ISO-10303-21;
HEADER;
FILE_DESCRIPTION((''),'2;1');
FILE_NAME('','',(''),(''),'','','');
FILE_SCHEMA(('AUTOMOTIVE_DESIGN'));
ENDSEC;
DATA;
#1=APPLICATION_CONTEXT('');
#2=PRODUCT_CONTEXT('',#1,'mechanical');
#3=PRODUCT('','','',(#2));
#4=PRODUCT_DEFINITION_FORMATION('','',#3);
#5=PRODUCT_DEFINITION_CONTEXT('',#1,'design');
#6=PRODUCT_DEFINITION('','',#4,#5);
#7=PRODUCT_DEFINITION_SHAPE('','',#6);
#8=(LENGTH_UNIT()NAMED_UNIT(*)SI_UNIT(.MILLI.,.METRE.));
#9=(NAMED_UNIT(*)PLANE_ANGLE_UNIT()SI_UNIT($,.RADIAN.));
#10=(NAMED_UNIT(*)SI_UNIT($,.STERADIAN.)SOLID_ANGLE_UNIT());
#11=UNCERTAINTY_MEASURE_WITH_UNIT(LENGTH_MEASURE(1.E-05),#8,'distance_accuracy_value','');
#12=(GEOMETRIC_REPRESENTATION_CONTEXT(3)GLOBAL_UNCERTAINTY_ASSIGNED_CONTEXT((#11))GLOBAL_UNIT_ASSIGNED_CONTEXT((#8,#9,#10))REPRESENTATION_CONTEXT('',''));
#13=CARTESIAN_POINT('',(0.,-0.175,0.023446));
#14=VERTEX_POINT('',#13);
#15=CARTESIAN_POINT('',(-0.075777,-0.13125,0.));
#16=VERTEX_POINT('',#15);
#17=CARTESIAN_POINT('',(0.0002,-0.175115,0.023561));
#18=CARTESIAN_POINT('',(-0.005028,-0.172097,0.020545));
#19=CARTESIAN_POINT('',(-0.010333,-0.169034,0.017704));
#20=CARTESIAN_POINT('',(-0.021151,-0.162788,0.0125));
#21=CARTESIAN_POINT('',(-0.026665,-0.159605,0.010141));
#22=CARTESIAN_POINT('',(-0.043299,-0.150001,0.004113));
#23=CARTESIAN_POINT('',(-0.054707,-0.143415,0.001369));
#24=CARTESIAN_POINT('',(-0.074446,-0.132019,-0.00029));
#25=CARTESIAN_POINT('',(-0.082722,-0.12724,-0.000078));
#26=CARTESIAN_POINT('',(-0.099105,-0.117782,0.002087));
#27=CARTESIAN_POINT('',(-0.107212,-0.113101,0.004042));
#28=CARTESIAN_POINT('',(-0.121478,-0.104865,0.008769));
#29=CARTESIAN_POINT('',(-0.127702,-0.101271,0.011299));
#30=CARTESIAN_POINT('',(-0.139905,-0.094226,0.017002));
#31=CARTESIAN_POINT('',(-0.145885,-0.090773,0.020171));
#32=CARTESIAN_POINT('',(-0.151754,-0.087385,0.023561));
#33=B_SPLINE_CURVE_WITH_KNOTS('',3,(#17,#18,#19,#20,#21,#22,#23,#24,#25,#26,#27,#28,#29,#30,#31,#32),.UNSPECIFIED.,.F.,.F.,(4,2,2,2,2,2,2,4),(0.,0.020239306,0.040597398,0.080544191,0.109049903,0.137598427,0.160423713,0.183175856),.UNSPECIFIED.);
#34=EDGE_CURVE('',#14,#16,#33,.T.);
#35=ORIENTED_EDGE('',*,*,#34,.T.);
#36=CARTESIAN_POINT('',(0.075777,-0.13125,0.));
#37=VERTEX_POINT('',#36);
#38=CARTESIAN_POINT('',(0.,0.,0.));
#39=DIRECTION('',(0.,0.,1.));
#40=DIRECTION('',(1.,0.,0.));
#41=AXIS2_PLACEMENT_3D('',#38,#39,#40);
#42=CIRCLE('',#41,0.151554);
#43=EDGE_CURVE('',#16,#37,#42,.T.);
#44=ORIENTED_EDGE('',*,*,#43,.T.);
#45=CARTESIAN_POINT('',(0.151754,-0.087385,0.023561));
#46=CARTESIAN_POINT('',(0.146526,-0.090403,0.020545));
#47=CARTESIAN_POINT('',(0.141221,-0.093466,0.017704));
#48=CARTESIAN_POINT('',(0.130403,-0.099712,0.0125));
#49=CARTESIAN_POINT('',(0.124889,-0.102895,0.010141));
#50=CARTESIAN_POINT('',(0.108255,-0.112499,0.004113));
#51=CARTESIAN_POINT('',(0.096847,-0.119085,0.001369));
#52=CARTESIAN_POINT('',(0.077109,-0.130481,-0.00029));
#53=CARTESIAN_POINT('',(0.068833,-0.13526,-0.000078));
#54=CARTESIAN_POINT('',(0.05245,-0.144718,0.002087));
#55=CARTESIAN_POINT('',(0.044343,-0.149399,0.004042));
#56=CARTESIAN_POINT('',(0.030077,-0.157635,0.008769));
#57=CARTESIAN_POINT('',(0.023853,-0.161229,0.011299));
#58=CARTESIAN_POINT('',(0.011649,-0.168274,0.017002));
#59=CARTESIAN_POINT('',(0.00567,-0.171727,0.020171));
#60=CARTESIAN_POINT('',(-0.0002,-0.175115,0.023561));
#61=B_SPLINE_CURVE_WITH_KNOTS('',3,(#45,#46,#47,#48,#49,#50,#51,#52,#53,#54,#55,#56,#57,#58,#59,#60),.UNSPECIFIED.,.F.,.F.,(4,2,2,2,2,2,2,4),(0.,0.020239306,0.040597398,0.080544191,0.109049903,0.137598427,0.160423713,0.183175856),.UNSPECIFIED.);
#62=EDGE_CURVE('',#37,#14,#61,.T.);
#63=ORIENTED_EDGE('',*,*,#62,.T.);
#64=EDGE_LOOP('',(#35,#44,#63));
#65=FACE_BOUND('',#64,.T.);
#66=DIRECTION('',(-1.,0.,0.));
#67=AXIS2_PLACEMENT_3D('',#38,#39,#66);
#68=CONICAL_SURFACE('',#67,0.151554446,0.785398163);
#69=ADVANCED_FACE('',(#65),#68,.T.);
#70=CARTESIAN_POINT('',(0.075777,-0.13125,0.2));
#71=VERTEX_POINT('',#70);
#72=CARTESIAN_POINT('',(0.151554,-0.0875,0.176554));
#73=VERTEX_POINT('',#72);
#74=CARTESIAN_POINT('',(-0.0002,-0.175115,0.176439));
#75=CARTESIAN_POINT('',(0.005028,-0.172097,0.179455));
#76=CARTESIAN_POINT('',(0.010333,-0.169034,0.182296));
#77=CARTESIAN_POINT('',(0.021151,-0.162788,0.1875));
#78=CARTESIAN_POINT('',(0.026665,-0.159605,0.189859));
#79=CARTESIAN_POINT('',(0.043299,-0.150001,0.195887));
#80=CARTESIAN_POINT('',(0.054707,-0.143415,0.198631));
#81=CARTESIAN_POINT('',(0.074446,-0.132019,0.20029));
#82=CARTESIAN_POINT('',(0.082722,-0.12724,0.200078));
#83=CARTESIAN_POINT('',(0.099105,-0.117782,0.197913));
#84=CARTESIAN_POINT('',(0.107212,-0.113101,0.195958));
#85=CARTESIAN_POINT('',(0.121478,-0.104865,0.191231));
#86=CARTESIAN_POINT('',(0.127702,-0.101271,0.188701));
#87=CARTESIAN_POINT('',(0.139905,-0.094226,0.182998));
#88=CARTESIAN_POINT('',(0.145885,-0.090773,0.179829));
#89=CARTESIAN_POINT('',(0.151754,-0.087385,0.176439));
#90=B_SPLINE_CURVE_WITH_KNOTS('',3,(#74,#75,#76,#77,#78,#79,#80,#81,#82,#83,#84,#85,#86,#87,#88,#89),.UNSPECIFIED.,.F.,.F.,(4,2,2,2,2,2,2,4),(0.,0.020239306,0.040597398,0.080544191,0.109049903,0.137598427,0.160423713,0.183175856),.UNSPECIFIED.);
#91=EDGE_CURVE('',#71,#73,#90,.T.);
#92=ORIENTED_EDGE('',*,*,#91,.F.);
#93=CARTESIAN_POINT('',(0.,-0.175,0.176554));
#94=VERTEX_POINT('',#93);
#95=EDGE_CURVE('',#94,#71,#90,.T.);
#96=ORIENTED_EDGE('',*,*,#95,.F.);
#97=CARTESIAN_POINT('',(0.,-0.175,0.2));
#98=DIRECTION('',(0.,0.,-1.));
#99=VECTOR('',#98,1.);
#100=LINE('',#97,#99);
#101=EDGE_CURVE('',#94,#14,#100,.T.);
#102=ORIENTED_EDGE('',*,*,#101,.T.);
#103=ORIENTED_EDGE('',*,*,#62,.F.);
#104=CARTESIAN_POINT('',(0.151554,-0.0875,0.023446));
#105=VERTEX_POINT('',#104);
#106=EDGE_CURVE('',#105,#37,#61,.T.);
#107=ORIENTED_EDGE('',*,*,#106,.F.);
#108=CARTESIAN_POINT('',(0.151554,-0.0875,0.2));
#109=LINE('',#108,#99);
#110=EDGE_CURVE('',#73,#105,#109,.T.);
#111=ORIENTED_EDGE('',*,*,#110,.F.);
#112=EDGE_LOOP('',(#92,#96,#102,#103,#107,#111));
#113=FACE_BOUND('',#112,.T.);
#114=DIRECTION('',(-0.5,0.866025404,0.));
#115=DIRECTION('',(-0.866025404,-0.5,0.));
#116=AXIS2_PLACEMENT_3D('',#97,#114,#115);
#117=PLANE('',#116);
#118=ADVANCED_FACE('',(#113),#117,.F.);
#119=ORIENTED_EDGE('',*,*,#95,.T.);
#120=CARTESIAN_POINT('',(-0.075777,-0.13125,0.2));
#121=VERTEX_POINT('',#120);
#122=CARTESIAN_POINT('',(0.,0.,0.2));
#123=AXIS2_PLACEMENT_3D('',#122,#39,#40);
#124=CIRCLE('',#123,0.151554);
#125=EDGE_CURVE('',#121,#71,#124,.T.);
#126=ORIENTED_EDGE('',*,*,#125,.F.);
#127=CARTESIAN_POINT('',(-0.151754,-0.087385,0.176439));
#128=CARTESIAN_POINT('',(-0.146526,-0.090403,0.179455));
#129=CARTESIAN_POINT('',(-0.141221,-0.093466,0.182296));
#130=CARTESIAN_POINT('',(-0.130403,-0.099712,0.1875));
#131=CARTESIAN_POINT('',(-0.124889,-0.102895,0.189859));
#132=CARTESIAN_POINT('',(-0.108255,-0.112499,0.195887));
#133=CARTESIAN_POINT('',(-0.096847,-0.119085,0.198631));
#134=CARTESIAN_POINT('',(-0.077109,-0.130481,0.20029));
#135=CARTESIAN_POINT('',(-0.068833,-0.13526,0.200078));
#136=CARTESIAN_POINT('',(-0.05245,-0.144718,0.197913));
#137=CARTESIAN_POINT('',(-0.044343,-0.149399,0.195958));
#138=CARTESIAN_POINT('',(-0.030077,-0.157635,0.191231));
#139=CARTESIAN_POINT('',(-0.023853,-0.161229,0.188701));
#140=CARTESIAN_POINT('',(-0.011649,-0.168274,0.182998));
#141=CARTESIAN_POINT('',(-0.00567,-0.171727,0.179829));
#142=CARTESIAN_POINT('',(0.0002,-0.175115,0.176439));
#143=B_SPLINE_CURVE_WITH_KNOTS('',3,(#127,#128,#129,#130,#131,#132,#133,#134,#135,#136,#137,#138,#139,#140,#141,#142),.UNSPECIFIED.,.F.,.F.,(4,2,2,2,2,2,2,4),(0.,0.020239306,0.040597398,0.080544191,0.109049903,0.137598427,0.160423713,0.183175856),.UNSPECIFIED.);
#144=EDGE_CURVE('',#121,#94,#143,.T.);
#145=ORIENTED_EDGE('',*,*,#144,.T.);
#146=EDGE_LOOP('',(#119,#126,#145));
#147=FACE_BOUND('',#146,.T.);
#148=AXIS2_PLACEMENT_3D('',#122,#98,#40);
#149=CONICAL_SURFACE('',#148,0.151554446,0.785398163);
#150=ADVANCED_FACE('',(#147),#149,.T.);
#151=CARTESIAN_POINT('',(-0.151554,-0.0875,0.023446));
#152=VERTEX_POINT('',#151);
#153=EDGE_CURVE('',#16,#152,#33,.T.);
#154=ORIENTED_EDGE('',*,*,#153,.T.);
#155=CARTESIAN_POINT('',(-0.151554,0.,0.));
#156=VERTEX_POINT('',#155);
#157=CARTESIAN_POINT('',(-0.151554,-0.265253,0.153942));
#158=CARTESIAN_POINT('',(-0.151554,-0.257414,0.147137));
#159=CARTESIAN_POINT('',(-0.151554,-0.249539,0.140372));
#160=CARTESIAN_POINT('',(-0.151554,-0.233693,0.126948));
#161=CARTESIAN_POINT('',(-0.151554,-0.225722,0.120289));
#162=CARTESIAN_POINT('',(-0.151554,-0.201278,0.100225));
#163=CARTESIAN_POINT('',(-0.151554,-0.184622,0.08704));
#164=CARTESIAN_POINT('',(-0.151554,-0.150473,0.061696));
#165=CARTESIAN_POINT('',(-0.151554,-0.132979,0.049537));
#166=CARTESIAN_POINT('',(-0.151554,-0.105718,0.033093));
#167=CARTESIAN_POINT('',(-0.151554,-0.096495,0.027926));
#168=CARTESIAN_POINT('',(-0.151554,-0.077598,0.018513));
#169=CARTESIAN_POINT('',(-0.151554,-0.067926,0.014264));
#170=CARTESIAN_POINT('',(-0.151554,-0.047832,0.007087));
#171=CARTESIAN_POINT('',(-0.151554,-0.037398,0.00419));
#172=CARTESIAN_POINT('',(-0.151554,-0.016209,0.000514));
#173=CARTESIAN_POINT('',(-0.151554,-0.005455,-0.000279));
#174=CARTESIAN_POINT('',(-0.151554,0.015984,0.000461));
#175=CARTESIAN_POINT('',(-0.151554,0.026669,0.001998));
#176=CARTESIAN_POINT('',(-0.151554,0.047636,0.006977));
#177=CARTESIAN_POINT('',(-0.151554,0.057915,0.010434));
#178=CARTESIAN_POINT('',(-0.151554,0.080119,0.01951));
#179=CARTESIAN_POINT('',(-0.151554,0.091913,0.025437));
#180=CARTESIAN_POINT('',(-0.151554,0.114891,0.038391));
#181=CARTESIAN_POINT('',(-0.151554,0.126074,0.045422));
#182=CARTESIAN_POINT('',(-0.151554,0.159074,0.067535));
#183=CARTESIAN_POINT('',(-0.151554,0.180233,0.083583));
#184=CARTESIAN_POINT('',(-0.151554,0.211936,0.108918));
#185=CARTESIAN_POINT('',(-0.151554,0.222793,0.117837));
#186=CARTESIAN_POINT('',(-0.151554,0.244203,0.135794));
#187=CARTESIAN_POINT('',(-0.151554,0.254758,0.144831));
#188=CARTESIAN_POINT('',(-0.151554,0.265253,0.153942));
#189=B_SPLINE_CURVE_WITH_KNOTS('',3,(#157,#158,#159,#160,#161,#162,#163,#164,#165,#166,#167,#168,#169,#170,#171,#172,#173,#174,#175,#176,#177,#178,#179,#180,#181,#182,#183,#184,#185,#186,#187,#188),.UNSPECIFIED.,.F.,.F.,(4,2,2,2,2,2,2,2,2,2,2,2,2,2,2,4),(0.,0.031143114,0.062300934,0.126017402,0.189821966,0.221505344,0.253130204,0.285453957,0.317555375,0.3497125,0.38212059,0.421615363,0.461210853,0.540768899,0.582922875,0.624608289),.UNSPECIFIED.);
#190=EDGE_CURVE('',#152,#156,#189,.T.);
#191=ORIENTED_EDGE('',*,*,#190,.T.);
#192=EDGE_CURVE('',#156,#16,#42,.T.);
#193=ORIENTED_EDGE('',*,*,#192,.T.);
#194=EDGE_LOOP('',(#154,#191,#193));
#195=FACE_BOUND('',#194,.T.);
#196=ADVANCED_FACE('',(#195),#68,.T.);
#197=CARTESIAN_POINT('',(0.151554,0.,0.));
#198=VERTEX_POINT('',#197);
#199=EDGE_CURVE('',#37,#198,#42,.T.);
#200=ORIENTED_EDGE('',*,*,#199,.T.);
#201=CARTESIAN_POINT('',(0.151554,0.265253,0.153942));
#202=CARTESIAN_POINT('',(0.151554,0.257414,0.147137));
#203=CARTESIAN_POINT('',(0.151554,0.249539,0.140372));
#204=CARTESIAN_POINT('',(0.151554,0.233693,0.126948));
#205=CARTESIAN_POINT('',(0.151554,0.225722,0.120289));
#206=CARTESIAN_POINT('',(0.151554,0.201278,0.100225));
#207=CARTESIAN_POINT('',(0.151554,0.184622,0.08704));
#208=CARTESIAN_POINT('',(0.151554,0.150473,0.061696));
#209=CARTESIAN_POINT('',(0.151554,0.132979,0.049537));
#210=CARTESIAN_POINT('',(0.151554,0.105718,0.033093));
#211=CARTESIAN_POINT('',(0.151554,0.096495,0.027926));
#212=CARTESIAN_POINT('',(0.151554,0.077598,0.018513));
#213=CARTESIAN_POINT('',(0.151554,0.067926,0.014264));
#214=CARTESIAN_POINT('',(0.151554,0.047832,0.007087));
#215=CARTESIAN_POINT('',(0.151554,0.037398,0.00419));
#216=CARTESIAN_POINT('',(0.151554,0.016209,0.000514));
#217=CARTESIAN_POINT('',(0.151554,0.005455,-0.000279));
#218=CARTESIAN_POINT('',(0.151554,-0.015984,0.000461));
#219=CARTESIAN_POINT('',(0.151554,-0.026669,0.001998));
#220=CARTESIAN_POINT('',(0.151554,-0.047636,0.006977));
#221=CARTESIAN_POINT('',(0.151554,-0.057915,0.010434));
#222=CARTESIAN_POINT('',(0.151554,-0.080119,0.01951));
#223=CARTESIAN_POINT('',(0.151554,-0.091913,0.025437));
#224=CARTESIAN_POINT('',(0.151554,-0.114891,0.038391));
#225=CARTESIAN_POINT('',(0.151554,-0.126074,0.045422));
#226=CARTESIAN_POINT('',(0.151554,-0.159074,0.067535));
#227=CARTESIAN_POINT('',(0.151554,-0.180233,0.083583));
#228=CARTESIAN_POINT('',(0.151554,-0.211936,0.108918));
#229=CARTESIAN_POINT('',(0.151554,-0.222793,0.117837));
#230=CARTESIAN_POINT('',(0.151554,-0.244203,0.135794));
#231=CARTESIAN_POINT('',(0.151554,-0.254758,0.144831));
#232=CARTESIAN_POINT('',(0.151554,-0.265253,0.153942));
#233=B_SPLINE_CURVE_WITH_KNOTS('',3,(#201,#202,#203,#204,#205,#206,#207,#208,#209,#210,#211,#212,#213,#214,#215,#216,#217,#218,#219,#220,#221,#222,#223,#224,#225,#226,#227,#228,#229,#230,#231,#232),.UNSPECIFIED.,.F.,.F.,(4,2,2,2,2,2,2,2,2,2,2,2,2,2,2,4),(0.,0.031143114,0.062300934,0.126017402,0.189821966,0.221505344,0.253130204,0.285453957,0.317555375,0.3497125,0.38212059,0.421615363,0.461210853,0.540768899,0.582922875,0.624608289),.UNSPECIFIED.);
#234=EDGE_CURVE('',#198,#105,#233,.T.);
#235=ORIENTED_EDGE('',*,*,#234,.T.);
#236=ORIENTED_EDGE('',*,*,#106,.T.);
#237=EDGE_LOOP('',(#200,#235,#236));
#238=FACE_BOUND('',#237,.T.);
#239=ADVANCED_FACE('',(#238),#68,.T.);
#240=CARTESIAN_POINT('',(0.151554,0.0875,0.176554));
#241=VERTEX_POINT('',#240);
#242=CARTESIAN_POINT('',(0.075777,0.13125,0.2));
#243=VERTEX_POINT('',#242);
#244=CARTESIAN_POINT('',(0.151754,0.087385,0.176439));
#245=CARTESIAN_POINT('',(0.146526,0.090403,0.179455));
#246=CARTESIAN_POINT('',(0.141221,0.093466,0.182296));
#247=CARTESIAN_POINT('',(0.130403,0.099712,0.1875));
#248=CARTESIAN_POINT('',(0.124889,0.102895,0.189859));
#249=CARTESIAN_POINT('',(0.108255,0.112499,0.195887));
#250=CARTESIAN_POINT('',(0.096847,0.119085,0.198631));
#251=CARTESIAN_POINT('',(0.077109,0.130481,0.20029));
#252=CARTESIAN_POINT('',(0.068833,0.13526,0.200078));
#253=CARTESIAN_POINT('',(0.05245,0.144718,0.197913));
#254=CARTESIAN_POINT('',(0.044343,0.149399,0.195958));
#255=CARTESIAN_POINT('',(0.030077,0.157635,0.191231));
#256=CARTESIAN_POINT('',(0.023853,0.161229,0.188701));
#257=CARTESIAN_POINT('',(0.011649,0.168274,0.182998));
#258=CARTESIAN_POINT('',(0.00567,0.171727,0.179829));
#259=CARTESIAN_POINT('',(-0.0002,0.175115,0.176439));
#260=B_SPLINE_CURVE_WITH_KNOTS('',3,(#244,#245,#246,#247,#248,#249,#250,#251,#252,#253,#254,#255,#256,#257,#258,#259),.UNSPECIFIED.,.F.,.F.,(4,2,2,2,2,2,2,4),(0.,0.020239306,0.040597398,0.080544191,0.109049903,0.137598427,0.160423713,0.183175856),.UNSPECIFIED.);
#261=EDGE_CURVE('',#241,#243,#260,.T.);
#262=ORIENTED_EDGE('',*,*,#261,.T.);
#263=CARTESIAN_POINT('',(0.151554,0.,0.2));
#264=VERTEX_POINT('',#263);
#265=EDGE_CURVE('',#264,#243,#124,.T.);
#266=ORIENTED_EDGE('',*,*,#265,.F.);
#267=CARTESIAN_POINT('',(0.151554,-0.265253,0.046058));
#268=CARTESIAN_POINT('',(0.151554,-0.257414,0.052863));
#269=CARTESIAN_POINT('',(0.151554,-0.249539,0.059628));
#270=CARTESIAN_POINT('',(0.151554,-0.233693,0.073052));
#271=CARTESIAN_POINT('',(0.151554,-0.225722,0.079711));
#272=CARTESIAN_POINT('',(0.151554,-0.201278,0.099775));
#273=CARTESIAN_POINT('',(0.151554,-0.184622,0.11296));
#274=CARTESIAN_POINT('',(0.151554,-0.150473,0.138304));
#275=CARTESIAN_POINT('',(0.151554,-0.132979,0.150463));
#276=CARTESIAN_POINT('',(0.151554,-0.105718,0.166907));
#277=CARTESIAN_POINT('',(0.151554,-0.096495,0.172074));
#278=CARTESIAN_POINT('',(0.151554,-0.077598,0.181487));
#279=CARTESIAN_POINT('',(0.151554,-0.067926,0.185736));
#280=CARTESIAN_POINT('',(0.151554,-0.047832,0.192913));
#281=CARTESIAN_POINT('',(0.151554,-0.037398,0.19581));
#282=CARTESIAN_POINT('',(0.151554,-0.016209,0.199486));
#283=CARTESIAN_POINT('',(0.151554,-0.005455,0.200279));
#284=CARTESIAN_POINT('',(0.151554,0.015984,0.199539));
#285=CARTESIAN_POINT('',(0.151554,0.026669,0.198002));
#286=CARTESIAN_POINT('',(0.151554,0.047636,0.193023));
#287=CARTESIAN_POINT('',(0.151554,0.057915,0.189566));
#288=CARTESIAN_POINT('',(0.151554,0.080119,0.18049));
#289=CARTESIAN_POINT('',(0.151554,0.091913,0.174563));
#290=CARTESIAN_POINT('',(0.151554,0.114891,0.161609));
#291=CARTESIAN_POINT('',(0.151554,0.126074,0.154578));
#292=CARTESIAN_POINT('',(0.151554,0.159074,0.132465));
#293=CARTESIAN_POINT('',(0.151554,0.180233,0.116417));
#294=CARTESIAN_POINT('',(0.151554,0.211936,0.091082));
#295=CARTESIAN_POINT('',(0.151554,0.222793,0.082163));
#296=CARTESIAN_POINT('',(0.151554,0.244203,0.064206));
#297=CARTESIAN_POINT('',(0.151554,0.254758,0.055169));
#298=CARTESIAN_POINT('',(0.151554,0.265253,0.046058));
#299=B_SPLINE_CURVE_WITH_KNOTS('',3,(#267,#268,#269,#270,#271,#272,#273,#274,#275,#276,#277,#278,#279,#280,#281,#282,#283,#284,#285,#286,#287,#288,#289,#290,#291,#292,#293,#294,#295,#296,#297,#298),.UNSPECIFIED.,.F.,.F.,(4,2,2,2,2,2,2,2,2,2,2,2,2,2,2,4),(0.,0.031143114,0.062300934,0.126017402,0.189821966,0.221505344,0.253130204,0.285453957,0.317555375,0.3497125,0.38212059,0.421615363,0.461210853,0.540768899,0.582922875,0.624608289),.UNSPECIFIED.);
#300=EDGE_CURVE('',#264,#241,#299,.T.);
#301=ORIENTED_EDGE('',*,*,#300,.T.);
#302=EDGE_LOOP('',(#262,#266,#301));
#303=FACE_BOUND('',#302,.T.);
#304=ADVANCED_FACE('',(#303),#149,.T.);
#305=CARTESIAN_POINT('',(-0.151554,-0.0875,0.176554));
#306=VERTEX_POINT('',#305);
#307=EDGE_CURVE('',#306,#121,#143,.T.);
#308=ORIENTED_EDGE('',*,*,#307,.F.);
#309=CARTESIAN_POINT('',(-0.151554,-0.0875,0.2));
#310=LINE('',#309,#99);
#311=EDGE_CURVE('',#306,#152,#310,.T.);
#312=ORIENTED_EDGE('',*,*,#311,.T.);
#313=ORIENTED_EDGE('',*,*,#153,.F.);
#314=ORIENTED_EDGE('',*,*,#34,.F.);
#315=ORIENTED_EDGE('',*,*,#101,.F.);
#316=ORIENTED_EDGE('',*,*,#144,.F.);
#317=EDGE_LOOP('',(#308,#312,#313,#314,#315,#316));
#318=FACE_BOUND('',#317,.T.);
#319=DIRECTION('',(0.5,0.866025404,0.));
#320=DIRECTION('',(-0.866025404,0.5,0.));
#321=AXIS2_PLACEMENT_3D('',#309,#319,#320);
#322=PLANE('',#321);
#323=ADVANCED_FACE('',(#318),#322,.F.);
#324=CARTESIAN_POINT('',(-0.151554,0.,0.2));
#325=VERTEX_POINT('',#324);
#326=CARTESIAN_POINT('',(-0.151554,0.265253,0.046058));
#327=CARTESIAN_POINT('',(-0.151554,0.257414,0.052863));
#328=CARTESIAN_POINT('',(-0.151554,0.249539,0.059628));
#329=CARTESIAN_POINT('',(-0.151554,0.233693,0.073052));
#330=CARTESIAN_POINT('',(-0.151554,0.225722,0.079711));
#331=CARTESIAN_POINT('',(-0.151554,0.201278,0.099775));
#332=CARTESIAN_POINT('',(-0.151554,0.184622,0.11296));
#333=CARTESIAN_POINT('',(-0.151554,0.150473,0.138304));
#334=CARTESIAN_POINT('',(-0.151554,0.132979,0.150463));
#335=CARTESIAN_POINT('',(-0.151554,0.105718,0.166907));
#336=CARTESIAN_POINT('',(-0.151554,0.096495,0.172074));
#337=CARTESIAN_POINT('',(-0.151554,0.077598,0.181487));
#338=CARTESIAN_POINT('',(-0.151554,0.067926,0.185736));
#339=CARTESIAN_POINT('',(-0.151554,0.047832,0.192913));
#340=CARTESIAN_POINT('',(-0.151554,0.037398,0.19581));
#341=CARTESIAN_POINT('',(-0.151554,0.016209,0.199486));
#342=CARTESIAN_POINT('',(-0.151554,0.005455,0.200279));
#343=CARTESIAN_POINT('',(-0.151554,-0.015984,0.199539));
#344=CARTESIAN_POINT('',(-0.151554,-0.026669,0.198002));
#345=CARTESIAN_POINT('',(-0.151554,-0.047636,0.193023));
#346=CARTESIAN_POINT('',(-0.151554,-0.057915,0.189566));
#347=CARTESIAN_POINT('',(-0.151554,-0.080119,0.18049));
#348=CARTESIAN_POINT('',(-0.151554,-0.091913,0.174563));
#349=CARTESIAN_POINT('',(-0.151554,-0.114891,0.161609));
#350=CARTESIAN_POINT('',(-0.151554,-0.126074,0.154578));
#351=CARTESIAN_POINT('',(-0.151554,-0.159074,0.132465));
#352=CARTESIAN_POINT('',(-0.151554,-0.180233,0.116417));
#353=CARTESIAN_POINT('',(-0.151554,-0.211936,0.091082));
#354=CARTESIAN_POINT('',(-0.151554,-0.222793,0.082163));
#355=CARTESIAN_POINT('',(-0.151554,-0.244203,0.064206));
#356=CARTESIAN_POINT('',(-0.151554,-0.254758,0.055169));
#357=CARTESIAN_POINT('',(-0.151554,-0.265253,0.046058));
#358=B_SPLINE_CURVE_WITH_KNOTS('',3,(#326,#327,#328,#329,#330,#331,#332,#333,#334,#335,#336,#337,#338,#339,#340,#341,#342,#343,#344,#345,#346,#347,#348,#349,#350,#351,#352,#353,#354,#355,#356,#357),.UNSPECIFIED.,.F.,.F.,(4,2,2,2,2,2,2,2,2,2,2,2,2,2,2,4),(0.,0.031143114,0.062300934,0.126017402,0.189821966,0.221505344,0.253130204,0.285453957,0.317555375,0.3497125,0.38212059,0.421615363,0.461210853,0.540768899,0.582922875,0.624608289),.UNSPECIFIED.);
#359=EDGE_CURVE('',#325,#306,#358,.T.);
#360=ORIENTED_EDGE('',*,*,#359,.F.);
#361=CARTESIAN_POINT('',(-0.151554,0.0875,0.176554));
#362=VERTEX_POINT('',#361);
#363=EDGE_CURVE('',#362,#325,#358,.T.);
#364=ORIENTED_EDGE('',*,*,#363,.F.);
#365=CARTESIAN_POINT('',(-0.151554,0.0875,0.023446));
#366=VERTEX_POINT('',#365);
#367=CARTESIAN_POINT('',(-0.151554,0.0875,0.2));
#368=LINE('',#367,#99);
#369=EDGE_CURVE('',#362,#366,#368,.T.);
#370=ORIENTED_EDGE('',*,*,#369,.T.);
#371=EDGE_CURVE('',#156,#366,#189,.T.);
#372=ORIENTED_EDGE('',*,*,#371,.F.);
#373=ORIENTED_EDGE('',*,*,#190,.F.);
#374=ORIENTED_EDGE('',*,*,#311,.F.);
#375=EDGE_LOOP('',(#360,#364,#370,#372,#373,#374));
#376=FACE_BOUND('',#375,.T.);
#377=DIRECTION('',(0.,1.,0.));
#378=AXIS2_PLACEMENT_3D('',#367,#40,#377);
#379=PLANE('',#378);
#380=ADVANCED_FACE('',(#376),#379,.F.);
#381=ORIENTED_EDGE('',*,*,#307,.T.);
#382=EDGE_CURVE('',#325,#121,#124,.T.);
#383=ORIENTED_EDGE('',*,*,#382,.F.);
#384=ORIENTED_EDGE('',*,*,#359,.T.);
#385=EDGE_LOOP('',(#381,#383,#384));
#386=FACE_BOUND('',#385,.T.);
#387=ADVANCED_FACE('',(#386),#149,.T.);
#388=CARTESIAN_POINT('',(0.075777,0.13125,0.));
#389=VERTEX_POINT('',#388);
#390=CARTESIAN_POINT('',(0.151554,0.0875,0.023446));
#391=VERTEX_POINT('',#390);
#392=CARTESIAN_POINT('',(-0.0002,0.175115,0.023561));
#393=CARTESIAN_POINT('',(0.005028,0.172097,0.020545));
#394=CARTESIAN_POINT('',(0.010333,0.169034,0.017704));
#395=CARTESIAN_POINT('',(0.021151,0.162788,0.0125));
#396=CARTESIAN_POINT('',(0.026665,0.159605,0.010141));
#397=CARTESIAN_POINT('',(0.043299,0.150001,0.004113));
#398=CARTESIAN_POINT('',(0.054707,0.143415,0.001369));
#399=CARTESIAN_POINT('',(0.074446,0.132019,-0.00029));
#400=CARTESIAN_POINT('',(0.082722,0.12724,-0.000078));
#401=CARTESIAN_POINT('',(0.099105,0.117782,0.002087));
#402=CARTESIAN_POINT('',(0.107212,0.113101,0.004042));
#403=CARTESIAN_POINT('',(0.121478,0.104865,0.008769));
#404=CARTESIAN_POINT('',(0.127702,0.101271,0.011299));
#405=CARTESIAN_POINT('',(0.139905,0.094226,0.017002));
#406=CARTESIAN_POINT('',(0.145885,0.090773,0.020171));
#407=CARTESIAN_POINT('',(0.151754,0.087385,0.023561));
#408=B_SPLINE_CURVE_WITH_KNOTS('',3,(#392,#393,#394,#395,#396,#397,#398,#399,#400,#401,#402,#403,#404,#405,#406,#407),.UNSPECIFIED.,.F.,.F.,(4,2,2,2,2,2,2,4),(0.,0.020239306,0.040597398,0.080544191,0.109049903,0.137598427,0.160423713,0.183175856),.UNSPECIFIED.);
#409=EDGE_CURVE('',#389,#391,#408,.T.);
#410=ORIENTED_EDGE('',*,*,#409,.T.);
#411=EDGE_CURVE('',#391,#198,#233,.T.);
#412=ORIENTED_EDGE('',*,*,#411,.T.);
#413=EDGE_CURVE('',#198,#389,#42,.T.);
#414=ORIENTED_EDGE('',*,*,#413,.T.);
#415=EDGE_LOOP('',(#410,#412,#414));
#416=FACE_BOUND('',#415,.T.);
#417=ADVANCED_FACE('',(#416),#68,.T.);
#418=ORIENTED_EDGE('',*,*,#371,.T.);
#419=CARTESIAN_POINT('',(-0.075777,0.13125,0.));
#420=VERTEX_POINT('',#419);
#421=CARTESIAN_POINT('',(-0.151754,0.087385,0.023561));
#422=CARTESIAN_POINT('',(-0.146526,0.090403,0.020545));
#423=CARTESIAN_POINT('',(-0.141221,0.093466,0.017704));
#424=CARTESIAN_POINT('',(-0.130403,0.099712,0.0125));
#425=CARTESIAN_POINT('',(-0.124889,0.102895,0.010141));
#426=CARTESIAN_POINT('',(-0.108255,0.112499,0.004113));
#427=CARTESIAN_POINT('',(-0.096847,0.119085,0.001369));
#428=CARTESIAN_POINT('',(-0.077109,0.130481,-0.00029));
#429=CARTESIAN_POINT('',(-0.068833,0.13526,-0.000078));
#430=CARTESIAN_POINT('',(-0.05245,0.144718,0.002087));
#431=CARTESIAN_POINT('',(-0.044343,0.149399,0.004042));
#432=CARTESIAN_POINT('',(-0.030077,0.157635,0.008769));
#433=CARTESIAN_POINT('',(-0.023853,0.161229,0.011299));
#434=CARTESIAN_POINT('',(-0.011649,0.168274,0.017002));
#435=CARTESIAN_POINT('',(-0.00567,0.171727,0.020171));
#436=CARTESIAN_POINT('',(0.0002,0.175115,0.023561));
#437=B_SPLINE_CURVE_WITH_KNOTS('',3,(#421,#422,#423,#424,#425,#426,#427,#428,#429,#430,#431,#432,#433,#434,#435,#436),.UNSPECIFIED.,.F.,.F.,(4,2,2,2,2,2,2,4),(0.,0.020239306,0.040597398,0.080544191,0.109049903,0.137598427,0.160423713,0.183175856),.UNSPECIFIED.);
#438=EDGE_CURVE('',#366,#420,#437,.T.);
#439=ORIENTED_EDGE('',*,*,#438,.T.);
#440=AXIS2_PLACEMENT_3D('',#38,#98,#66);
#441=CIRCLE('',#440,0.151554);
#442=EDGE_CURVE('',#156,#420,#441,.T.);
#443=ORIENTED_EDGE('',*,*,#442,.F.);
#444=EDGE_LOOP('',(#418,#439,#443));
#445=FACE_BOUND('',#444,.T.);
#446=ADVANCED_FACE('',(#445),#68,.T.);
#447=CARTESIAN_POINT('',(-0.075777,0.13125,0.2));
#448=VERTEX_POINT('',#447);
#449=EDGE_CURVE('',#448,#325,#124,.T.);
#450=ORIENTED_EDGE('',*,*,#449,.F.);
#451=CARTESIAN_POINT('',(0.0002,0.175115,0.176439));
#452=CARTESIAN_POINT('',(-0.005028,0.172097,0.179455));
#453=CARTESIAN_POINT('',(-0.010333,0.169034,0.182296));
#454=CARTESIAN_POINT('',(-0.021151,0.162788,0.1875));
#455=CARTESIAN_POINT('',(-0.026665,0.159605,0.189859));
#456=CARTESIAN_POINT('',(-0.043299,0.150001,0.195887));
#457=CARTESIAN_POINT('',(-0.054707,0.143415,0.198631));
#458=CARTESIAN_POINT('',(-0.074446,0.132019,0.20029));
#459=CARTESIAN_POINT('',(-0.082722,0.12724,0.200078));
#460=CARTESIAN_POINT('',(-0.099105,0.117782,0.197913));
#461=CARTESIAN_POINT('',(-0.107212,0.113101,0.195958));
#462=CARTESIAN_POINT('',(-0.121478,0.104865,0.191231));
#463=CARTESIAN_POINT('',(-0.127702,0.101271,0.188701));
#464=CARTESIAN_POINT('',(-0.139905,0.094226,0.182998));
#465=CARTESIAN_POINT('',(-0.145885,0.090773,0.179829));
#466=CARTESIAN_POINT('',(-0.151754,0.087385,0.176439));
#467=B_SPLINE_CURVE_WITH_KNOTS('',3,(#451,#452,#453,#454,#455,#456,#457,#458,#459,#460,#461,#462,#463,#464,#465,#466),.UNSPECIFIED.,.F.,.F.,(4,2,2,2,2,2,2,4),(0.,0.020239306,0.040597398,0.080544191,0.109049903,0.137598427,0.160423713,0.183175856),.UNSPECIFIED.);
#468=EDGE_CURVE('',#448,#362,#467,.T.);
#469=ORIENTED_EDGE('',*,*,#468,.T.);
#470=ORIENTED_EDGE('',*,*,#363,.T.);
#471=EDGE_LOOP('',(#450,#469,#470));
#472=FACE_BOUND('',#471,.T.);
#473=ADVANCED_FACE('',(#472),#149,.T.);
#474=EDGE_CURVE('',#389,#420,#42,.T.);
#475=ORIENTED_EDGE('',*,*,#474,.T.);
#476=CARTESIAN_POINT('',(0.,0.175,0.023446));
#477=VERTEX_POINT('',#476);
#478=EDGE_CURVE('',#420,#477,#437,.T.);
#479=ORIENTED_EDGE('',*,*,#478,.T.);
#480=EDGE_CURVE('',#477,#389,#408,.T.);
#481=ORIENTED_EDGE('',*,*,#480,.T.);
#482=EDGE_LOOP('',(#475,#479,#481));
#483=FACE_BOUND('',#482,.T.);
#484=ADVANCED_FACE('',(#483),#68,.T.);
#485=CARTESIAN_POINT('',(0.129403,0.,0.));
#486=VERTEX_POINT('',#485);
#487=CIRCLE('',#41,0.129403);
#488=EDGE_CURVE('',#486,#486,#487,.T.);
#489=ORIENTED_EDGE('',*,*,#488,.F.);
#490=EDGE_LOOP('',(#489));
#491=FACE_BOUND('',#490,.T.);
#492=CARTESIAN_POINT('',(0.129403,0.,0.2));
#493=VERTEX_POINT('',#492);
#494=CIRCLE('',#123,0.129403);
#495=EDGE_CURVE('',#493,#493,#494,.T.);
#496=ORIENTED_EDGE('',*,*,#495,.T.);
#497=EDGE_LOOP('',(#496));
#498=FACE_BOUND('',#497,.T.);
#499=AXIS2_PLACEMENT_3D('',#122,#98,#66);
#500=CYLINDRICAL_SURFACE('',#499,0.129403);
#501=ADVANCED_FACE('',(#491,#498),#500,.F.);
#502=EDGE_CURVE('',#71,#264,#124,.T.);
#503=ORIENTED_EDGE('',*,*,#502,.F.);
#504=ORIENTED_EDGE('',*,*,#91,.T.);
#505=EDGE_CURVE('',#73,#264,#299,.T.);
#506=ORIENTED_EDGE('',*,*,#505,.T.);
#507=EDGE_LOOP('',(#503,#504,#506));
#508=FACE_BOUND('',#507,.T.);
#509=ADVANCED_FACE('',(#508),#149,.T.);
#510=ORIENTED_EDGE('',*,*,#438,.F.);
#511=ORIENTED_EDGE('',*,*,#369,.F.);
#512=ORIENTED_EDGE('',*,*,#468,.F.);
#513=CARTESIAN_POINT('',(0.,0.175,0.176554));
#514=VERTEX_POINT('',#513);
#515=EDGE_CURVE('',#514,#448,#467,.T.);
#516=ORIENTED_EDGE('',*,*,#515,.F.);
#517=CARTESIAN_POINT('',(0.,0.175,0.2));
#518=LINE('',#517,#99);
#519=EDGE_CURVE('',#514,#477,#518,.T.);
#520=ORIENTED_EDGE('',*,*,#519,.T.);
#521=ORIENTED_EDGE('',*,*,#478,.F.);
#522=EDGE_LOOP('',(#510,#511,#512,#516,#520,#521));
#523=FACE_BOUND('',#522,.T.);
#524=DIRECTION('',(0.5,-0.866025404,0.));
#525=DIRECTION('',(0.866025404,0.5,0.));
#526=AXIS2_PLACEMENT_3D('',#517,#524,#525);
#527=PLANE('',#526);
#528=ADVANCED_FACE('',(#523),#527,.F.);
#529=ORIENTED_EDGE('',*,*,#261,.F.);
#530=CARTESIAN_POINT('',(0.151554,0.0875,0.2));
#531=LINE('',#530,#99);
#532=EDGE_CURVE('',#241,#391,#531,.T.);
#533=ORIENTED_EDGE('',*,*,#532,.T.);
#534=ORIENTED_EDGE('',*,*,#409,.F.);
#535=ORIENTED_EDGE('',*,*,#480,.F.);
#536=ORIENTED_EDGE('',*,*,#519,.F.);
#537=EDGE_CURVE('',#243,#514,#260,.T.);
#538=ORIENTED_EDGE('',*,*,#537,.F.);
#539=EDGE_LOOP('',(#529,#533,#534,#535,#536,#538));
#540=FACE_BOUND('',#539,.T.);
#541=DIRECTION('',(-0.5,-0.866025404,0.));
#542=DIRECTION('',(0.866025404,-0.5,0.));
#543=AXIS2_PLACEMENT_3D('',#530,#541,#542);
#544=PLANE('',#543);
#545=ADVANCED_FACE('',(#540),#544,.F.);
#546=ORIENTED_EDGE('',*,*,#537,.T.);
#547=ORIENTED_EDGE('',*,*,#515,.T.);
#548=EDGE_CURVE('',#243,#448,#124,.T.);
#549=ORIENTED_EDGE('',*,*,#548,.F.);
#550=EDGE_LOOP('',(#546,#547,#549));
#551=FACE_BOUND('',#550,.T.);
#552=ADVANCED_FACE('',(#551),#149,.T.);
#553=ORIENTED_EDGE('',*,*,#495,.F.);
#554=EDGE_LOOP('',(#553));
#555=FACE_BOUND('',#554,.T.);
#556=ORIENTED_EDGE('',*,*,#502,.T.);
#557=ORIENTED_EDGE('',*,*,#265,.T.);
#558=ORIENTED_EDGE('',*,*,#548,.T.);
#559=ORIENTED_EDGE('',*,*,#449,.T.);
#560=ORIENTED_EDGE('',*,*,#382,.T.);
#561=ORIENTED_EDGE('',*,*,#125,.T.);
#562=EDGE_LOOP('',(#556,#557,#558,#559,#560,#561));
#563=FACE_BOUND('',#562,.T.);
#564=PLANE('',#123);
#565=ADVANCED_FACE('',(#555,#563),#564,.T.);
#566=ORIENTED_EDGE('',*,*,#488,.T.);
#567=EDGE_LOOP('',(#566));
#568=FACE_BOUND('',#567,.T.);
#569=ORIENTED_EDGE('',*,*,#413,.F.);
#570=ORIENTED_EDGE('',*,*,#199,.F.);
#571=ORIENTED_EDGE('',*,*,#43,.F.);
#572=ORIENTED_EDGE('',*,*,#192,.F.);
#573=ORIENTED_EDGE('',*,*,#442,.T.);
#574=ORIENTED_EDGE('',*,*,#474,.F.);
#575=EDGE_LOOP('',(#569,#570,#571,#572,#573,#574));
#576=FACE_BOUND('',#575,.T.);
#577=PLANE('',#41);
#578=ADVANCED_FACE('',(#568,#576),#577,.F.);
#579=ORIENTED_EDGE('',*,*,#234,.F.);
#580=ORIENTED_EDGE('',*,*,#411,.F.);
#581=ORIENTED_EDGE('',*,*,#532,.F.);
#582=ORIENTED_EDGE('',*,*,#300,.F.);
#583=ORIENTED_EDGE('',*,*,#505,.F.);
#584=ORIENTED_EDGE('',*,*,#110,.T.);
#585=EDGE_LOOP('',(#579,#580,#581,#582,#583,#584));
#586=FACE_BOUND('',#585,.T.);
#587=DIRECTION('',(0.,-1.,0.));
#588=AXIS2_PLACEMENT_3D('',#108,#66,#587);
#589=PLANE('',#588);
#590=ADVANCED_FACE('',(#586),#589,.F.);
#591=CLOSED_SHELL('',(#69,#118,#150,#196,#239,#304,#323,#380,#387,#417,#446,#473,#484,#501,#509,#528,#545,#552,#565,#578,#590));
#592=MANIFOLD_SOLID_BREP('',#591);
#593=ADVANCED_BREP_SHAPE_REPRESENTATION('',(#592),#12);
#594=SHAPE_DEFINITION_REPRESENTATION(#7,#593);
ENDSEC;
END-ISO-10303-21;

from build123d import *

# Parameters (mm, degrees)
SKETCH1_R           = 0.129403425
BOSS_EXTRUDE2_DEPTH = 0.2
SKETCH6_OUTSIDE_W   = 2.464
SKETCH6_OUTSIDE_H   = 2.51
SKETCH6_OUTSIDE_R   = 0.151554446
CUT_EXTRUDE1_DEPTH  = 0.03
CUT_EXTRUDE1_DRAFT  = -45
SKETCH7_OUTSIDE_W   = 2.464
SKETCH7_OUTSIDE_H   = 2.51
SKETCH7_OUTSIDE_R   = 0.151554446
CUT_EXTRUDE2_DEPTH  = 0.03
CUT_EXTRUDE2_DRAFT  = -45


with BuildPart() as part:
    # Sketch1 → Boss-Extrude2 (new body)
    with BuildSketch(Plane.XY):
        Polygon((0.151554446, 0.0875), (0, 0.175), (-0.151554446, 0.0875), (-0.151554446, -0.0875), (0, -0.175), (0.151554446, -0.0875), align=None)
        Circle(SKETCH1_R, mode=Mode.SUBTRACT)
    extrude(amount=BOSS_EXTRUDE2_DEPTH)


with BuildPart() as cut_extrude1_tool:
    # Sketch6 outside → Cut-Extrude1 (with draft: the straight prism first)
    with BuildSketch(Plane.XY.offset(0.2)):
        Rectangle(SKETCH6_OUTSIDE_W, SKETCH6_OUTSIDE_H)
        Circle(SKETCH6_OUTSIDE_R, mode=Mode.SUBTRACT)
    extrude(amount=-CUT_EXTRUDE1_DEPTH)
    # Cut-Extrude1: the draft: its side faces are tilted about the plane it starts from
    cut_extrude1_sides = [cut_extrude1_tool.faces().sort_by_distance(p)[0] for p in [
        (0, -1.255, 0.185),
        (1.232, 0, 0.185),
        (0, 1.255, 0.185),
        (-1.232, 0, 0.185),
        (-0.151554446, 0, 0.185),
    ]]
    draft(cut_extrude1_sides, Plane.XY.offset(0.2), CUT_EXTRUDE1_DRAFT)


with BuildPart() as part_1:
    add(part.part)

    # Cut-Extrude1: cut by cut_extrude1_tool
    add(cut_extrude1_tool.part, mode=Mode.SUBTRACT)


with BuildPart() as cut_extrude2_tool:
    # Sketch7 outside → Cut-Extrude2 (with draft: the straight prism first)
    with BuildSketch(Plane(origin=(0, 0, 0), x_dir=(-1, 0, 0), z_dir=(0, 0, -1))):
        Rectangle(SKETCH7_OUTSIDE_W, SKETCH7_OUTSIDE_H)
        Circle(SKETCH7_OUTSIDE_R, mode=Mode.SUBTRACT)
    extrude(amount=-CUT_EXTRUDE2_DEPTH)
    # Cut-Extrude2: the draft: its side faces are tilted about the plane it starts from
    cut_extrude2_sides = [cut_extrude2_tool.faces().sort_by_distance(p)[0] for p in [
        (0, -1.255, 0.015),
        (-1.232, 0, 0.015),
        (0, 1.255, 0.015),
        (1.232, 0, 0.015),
        (0.151554446, 0, 0.015),
    ]]
    draft(cut_extrude2_sides, Plane(origin=(0, 0, 0), x_dir=(-1, 0, 0), z_dir=(0, 0, -1)), CUT_EXTRUDE2_DRAFT)


with BuildPart() as part_2:
    add(part_1.part)

    # Cut-Extrude2: cut by cut_extrude2_tool
    add(cut_extrude2_tool.part, mode=Mode.SUBTRACT)


solid = part_2.part
